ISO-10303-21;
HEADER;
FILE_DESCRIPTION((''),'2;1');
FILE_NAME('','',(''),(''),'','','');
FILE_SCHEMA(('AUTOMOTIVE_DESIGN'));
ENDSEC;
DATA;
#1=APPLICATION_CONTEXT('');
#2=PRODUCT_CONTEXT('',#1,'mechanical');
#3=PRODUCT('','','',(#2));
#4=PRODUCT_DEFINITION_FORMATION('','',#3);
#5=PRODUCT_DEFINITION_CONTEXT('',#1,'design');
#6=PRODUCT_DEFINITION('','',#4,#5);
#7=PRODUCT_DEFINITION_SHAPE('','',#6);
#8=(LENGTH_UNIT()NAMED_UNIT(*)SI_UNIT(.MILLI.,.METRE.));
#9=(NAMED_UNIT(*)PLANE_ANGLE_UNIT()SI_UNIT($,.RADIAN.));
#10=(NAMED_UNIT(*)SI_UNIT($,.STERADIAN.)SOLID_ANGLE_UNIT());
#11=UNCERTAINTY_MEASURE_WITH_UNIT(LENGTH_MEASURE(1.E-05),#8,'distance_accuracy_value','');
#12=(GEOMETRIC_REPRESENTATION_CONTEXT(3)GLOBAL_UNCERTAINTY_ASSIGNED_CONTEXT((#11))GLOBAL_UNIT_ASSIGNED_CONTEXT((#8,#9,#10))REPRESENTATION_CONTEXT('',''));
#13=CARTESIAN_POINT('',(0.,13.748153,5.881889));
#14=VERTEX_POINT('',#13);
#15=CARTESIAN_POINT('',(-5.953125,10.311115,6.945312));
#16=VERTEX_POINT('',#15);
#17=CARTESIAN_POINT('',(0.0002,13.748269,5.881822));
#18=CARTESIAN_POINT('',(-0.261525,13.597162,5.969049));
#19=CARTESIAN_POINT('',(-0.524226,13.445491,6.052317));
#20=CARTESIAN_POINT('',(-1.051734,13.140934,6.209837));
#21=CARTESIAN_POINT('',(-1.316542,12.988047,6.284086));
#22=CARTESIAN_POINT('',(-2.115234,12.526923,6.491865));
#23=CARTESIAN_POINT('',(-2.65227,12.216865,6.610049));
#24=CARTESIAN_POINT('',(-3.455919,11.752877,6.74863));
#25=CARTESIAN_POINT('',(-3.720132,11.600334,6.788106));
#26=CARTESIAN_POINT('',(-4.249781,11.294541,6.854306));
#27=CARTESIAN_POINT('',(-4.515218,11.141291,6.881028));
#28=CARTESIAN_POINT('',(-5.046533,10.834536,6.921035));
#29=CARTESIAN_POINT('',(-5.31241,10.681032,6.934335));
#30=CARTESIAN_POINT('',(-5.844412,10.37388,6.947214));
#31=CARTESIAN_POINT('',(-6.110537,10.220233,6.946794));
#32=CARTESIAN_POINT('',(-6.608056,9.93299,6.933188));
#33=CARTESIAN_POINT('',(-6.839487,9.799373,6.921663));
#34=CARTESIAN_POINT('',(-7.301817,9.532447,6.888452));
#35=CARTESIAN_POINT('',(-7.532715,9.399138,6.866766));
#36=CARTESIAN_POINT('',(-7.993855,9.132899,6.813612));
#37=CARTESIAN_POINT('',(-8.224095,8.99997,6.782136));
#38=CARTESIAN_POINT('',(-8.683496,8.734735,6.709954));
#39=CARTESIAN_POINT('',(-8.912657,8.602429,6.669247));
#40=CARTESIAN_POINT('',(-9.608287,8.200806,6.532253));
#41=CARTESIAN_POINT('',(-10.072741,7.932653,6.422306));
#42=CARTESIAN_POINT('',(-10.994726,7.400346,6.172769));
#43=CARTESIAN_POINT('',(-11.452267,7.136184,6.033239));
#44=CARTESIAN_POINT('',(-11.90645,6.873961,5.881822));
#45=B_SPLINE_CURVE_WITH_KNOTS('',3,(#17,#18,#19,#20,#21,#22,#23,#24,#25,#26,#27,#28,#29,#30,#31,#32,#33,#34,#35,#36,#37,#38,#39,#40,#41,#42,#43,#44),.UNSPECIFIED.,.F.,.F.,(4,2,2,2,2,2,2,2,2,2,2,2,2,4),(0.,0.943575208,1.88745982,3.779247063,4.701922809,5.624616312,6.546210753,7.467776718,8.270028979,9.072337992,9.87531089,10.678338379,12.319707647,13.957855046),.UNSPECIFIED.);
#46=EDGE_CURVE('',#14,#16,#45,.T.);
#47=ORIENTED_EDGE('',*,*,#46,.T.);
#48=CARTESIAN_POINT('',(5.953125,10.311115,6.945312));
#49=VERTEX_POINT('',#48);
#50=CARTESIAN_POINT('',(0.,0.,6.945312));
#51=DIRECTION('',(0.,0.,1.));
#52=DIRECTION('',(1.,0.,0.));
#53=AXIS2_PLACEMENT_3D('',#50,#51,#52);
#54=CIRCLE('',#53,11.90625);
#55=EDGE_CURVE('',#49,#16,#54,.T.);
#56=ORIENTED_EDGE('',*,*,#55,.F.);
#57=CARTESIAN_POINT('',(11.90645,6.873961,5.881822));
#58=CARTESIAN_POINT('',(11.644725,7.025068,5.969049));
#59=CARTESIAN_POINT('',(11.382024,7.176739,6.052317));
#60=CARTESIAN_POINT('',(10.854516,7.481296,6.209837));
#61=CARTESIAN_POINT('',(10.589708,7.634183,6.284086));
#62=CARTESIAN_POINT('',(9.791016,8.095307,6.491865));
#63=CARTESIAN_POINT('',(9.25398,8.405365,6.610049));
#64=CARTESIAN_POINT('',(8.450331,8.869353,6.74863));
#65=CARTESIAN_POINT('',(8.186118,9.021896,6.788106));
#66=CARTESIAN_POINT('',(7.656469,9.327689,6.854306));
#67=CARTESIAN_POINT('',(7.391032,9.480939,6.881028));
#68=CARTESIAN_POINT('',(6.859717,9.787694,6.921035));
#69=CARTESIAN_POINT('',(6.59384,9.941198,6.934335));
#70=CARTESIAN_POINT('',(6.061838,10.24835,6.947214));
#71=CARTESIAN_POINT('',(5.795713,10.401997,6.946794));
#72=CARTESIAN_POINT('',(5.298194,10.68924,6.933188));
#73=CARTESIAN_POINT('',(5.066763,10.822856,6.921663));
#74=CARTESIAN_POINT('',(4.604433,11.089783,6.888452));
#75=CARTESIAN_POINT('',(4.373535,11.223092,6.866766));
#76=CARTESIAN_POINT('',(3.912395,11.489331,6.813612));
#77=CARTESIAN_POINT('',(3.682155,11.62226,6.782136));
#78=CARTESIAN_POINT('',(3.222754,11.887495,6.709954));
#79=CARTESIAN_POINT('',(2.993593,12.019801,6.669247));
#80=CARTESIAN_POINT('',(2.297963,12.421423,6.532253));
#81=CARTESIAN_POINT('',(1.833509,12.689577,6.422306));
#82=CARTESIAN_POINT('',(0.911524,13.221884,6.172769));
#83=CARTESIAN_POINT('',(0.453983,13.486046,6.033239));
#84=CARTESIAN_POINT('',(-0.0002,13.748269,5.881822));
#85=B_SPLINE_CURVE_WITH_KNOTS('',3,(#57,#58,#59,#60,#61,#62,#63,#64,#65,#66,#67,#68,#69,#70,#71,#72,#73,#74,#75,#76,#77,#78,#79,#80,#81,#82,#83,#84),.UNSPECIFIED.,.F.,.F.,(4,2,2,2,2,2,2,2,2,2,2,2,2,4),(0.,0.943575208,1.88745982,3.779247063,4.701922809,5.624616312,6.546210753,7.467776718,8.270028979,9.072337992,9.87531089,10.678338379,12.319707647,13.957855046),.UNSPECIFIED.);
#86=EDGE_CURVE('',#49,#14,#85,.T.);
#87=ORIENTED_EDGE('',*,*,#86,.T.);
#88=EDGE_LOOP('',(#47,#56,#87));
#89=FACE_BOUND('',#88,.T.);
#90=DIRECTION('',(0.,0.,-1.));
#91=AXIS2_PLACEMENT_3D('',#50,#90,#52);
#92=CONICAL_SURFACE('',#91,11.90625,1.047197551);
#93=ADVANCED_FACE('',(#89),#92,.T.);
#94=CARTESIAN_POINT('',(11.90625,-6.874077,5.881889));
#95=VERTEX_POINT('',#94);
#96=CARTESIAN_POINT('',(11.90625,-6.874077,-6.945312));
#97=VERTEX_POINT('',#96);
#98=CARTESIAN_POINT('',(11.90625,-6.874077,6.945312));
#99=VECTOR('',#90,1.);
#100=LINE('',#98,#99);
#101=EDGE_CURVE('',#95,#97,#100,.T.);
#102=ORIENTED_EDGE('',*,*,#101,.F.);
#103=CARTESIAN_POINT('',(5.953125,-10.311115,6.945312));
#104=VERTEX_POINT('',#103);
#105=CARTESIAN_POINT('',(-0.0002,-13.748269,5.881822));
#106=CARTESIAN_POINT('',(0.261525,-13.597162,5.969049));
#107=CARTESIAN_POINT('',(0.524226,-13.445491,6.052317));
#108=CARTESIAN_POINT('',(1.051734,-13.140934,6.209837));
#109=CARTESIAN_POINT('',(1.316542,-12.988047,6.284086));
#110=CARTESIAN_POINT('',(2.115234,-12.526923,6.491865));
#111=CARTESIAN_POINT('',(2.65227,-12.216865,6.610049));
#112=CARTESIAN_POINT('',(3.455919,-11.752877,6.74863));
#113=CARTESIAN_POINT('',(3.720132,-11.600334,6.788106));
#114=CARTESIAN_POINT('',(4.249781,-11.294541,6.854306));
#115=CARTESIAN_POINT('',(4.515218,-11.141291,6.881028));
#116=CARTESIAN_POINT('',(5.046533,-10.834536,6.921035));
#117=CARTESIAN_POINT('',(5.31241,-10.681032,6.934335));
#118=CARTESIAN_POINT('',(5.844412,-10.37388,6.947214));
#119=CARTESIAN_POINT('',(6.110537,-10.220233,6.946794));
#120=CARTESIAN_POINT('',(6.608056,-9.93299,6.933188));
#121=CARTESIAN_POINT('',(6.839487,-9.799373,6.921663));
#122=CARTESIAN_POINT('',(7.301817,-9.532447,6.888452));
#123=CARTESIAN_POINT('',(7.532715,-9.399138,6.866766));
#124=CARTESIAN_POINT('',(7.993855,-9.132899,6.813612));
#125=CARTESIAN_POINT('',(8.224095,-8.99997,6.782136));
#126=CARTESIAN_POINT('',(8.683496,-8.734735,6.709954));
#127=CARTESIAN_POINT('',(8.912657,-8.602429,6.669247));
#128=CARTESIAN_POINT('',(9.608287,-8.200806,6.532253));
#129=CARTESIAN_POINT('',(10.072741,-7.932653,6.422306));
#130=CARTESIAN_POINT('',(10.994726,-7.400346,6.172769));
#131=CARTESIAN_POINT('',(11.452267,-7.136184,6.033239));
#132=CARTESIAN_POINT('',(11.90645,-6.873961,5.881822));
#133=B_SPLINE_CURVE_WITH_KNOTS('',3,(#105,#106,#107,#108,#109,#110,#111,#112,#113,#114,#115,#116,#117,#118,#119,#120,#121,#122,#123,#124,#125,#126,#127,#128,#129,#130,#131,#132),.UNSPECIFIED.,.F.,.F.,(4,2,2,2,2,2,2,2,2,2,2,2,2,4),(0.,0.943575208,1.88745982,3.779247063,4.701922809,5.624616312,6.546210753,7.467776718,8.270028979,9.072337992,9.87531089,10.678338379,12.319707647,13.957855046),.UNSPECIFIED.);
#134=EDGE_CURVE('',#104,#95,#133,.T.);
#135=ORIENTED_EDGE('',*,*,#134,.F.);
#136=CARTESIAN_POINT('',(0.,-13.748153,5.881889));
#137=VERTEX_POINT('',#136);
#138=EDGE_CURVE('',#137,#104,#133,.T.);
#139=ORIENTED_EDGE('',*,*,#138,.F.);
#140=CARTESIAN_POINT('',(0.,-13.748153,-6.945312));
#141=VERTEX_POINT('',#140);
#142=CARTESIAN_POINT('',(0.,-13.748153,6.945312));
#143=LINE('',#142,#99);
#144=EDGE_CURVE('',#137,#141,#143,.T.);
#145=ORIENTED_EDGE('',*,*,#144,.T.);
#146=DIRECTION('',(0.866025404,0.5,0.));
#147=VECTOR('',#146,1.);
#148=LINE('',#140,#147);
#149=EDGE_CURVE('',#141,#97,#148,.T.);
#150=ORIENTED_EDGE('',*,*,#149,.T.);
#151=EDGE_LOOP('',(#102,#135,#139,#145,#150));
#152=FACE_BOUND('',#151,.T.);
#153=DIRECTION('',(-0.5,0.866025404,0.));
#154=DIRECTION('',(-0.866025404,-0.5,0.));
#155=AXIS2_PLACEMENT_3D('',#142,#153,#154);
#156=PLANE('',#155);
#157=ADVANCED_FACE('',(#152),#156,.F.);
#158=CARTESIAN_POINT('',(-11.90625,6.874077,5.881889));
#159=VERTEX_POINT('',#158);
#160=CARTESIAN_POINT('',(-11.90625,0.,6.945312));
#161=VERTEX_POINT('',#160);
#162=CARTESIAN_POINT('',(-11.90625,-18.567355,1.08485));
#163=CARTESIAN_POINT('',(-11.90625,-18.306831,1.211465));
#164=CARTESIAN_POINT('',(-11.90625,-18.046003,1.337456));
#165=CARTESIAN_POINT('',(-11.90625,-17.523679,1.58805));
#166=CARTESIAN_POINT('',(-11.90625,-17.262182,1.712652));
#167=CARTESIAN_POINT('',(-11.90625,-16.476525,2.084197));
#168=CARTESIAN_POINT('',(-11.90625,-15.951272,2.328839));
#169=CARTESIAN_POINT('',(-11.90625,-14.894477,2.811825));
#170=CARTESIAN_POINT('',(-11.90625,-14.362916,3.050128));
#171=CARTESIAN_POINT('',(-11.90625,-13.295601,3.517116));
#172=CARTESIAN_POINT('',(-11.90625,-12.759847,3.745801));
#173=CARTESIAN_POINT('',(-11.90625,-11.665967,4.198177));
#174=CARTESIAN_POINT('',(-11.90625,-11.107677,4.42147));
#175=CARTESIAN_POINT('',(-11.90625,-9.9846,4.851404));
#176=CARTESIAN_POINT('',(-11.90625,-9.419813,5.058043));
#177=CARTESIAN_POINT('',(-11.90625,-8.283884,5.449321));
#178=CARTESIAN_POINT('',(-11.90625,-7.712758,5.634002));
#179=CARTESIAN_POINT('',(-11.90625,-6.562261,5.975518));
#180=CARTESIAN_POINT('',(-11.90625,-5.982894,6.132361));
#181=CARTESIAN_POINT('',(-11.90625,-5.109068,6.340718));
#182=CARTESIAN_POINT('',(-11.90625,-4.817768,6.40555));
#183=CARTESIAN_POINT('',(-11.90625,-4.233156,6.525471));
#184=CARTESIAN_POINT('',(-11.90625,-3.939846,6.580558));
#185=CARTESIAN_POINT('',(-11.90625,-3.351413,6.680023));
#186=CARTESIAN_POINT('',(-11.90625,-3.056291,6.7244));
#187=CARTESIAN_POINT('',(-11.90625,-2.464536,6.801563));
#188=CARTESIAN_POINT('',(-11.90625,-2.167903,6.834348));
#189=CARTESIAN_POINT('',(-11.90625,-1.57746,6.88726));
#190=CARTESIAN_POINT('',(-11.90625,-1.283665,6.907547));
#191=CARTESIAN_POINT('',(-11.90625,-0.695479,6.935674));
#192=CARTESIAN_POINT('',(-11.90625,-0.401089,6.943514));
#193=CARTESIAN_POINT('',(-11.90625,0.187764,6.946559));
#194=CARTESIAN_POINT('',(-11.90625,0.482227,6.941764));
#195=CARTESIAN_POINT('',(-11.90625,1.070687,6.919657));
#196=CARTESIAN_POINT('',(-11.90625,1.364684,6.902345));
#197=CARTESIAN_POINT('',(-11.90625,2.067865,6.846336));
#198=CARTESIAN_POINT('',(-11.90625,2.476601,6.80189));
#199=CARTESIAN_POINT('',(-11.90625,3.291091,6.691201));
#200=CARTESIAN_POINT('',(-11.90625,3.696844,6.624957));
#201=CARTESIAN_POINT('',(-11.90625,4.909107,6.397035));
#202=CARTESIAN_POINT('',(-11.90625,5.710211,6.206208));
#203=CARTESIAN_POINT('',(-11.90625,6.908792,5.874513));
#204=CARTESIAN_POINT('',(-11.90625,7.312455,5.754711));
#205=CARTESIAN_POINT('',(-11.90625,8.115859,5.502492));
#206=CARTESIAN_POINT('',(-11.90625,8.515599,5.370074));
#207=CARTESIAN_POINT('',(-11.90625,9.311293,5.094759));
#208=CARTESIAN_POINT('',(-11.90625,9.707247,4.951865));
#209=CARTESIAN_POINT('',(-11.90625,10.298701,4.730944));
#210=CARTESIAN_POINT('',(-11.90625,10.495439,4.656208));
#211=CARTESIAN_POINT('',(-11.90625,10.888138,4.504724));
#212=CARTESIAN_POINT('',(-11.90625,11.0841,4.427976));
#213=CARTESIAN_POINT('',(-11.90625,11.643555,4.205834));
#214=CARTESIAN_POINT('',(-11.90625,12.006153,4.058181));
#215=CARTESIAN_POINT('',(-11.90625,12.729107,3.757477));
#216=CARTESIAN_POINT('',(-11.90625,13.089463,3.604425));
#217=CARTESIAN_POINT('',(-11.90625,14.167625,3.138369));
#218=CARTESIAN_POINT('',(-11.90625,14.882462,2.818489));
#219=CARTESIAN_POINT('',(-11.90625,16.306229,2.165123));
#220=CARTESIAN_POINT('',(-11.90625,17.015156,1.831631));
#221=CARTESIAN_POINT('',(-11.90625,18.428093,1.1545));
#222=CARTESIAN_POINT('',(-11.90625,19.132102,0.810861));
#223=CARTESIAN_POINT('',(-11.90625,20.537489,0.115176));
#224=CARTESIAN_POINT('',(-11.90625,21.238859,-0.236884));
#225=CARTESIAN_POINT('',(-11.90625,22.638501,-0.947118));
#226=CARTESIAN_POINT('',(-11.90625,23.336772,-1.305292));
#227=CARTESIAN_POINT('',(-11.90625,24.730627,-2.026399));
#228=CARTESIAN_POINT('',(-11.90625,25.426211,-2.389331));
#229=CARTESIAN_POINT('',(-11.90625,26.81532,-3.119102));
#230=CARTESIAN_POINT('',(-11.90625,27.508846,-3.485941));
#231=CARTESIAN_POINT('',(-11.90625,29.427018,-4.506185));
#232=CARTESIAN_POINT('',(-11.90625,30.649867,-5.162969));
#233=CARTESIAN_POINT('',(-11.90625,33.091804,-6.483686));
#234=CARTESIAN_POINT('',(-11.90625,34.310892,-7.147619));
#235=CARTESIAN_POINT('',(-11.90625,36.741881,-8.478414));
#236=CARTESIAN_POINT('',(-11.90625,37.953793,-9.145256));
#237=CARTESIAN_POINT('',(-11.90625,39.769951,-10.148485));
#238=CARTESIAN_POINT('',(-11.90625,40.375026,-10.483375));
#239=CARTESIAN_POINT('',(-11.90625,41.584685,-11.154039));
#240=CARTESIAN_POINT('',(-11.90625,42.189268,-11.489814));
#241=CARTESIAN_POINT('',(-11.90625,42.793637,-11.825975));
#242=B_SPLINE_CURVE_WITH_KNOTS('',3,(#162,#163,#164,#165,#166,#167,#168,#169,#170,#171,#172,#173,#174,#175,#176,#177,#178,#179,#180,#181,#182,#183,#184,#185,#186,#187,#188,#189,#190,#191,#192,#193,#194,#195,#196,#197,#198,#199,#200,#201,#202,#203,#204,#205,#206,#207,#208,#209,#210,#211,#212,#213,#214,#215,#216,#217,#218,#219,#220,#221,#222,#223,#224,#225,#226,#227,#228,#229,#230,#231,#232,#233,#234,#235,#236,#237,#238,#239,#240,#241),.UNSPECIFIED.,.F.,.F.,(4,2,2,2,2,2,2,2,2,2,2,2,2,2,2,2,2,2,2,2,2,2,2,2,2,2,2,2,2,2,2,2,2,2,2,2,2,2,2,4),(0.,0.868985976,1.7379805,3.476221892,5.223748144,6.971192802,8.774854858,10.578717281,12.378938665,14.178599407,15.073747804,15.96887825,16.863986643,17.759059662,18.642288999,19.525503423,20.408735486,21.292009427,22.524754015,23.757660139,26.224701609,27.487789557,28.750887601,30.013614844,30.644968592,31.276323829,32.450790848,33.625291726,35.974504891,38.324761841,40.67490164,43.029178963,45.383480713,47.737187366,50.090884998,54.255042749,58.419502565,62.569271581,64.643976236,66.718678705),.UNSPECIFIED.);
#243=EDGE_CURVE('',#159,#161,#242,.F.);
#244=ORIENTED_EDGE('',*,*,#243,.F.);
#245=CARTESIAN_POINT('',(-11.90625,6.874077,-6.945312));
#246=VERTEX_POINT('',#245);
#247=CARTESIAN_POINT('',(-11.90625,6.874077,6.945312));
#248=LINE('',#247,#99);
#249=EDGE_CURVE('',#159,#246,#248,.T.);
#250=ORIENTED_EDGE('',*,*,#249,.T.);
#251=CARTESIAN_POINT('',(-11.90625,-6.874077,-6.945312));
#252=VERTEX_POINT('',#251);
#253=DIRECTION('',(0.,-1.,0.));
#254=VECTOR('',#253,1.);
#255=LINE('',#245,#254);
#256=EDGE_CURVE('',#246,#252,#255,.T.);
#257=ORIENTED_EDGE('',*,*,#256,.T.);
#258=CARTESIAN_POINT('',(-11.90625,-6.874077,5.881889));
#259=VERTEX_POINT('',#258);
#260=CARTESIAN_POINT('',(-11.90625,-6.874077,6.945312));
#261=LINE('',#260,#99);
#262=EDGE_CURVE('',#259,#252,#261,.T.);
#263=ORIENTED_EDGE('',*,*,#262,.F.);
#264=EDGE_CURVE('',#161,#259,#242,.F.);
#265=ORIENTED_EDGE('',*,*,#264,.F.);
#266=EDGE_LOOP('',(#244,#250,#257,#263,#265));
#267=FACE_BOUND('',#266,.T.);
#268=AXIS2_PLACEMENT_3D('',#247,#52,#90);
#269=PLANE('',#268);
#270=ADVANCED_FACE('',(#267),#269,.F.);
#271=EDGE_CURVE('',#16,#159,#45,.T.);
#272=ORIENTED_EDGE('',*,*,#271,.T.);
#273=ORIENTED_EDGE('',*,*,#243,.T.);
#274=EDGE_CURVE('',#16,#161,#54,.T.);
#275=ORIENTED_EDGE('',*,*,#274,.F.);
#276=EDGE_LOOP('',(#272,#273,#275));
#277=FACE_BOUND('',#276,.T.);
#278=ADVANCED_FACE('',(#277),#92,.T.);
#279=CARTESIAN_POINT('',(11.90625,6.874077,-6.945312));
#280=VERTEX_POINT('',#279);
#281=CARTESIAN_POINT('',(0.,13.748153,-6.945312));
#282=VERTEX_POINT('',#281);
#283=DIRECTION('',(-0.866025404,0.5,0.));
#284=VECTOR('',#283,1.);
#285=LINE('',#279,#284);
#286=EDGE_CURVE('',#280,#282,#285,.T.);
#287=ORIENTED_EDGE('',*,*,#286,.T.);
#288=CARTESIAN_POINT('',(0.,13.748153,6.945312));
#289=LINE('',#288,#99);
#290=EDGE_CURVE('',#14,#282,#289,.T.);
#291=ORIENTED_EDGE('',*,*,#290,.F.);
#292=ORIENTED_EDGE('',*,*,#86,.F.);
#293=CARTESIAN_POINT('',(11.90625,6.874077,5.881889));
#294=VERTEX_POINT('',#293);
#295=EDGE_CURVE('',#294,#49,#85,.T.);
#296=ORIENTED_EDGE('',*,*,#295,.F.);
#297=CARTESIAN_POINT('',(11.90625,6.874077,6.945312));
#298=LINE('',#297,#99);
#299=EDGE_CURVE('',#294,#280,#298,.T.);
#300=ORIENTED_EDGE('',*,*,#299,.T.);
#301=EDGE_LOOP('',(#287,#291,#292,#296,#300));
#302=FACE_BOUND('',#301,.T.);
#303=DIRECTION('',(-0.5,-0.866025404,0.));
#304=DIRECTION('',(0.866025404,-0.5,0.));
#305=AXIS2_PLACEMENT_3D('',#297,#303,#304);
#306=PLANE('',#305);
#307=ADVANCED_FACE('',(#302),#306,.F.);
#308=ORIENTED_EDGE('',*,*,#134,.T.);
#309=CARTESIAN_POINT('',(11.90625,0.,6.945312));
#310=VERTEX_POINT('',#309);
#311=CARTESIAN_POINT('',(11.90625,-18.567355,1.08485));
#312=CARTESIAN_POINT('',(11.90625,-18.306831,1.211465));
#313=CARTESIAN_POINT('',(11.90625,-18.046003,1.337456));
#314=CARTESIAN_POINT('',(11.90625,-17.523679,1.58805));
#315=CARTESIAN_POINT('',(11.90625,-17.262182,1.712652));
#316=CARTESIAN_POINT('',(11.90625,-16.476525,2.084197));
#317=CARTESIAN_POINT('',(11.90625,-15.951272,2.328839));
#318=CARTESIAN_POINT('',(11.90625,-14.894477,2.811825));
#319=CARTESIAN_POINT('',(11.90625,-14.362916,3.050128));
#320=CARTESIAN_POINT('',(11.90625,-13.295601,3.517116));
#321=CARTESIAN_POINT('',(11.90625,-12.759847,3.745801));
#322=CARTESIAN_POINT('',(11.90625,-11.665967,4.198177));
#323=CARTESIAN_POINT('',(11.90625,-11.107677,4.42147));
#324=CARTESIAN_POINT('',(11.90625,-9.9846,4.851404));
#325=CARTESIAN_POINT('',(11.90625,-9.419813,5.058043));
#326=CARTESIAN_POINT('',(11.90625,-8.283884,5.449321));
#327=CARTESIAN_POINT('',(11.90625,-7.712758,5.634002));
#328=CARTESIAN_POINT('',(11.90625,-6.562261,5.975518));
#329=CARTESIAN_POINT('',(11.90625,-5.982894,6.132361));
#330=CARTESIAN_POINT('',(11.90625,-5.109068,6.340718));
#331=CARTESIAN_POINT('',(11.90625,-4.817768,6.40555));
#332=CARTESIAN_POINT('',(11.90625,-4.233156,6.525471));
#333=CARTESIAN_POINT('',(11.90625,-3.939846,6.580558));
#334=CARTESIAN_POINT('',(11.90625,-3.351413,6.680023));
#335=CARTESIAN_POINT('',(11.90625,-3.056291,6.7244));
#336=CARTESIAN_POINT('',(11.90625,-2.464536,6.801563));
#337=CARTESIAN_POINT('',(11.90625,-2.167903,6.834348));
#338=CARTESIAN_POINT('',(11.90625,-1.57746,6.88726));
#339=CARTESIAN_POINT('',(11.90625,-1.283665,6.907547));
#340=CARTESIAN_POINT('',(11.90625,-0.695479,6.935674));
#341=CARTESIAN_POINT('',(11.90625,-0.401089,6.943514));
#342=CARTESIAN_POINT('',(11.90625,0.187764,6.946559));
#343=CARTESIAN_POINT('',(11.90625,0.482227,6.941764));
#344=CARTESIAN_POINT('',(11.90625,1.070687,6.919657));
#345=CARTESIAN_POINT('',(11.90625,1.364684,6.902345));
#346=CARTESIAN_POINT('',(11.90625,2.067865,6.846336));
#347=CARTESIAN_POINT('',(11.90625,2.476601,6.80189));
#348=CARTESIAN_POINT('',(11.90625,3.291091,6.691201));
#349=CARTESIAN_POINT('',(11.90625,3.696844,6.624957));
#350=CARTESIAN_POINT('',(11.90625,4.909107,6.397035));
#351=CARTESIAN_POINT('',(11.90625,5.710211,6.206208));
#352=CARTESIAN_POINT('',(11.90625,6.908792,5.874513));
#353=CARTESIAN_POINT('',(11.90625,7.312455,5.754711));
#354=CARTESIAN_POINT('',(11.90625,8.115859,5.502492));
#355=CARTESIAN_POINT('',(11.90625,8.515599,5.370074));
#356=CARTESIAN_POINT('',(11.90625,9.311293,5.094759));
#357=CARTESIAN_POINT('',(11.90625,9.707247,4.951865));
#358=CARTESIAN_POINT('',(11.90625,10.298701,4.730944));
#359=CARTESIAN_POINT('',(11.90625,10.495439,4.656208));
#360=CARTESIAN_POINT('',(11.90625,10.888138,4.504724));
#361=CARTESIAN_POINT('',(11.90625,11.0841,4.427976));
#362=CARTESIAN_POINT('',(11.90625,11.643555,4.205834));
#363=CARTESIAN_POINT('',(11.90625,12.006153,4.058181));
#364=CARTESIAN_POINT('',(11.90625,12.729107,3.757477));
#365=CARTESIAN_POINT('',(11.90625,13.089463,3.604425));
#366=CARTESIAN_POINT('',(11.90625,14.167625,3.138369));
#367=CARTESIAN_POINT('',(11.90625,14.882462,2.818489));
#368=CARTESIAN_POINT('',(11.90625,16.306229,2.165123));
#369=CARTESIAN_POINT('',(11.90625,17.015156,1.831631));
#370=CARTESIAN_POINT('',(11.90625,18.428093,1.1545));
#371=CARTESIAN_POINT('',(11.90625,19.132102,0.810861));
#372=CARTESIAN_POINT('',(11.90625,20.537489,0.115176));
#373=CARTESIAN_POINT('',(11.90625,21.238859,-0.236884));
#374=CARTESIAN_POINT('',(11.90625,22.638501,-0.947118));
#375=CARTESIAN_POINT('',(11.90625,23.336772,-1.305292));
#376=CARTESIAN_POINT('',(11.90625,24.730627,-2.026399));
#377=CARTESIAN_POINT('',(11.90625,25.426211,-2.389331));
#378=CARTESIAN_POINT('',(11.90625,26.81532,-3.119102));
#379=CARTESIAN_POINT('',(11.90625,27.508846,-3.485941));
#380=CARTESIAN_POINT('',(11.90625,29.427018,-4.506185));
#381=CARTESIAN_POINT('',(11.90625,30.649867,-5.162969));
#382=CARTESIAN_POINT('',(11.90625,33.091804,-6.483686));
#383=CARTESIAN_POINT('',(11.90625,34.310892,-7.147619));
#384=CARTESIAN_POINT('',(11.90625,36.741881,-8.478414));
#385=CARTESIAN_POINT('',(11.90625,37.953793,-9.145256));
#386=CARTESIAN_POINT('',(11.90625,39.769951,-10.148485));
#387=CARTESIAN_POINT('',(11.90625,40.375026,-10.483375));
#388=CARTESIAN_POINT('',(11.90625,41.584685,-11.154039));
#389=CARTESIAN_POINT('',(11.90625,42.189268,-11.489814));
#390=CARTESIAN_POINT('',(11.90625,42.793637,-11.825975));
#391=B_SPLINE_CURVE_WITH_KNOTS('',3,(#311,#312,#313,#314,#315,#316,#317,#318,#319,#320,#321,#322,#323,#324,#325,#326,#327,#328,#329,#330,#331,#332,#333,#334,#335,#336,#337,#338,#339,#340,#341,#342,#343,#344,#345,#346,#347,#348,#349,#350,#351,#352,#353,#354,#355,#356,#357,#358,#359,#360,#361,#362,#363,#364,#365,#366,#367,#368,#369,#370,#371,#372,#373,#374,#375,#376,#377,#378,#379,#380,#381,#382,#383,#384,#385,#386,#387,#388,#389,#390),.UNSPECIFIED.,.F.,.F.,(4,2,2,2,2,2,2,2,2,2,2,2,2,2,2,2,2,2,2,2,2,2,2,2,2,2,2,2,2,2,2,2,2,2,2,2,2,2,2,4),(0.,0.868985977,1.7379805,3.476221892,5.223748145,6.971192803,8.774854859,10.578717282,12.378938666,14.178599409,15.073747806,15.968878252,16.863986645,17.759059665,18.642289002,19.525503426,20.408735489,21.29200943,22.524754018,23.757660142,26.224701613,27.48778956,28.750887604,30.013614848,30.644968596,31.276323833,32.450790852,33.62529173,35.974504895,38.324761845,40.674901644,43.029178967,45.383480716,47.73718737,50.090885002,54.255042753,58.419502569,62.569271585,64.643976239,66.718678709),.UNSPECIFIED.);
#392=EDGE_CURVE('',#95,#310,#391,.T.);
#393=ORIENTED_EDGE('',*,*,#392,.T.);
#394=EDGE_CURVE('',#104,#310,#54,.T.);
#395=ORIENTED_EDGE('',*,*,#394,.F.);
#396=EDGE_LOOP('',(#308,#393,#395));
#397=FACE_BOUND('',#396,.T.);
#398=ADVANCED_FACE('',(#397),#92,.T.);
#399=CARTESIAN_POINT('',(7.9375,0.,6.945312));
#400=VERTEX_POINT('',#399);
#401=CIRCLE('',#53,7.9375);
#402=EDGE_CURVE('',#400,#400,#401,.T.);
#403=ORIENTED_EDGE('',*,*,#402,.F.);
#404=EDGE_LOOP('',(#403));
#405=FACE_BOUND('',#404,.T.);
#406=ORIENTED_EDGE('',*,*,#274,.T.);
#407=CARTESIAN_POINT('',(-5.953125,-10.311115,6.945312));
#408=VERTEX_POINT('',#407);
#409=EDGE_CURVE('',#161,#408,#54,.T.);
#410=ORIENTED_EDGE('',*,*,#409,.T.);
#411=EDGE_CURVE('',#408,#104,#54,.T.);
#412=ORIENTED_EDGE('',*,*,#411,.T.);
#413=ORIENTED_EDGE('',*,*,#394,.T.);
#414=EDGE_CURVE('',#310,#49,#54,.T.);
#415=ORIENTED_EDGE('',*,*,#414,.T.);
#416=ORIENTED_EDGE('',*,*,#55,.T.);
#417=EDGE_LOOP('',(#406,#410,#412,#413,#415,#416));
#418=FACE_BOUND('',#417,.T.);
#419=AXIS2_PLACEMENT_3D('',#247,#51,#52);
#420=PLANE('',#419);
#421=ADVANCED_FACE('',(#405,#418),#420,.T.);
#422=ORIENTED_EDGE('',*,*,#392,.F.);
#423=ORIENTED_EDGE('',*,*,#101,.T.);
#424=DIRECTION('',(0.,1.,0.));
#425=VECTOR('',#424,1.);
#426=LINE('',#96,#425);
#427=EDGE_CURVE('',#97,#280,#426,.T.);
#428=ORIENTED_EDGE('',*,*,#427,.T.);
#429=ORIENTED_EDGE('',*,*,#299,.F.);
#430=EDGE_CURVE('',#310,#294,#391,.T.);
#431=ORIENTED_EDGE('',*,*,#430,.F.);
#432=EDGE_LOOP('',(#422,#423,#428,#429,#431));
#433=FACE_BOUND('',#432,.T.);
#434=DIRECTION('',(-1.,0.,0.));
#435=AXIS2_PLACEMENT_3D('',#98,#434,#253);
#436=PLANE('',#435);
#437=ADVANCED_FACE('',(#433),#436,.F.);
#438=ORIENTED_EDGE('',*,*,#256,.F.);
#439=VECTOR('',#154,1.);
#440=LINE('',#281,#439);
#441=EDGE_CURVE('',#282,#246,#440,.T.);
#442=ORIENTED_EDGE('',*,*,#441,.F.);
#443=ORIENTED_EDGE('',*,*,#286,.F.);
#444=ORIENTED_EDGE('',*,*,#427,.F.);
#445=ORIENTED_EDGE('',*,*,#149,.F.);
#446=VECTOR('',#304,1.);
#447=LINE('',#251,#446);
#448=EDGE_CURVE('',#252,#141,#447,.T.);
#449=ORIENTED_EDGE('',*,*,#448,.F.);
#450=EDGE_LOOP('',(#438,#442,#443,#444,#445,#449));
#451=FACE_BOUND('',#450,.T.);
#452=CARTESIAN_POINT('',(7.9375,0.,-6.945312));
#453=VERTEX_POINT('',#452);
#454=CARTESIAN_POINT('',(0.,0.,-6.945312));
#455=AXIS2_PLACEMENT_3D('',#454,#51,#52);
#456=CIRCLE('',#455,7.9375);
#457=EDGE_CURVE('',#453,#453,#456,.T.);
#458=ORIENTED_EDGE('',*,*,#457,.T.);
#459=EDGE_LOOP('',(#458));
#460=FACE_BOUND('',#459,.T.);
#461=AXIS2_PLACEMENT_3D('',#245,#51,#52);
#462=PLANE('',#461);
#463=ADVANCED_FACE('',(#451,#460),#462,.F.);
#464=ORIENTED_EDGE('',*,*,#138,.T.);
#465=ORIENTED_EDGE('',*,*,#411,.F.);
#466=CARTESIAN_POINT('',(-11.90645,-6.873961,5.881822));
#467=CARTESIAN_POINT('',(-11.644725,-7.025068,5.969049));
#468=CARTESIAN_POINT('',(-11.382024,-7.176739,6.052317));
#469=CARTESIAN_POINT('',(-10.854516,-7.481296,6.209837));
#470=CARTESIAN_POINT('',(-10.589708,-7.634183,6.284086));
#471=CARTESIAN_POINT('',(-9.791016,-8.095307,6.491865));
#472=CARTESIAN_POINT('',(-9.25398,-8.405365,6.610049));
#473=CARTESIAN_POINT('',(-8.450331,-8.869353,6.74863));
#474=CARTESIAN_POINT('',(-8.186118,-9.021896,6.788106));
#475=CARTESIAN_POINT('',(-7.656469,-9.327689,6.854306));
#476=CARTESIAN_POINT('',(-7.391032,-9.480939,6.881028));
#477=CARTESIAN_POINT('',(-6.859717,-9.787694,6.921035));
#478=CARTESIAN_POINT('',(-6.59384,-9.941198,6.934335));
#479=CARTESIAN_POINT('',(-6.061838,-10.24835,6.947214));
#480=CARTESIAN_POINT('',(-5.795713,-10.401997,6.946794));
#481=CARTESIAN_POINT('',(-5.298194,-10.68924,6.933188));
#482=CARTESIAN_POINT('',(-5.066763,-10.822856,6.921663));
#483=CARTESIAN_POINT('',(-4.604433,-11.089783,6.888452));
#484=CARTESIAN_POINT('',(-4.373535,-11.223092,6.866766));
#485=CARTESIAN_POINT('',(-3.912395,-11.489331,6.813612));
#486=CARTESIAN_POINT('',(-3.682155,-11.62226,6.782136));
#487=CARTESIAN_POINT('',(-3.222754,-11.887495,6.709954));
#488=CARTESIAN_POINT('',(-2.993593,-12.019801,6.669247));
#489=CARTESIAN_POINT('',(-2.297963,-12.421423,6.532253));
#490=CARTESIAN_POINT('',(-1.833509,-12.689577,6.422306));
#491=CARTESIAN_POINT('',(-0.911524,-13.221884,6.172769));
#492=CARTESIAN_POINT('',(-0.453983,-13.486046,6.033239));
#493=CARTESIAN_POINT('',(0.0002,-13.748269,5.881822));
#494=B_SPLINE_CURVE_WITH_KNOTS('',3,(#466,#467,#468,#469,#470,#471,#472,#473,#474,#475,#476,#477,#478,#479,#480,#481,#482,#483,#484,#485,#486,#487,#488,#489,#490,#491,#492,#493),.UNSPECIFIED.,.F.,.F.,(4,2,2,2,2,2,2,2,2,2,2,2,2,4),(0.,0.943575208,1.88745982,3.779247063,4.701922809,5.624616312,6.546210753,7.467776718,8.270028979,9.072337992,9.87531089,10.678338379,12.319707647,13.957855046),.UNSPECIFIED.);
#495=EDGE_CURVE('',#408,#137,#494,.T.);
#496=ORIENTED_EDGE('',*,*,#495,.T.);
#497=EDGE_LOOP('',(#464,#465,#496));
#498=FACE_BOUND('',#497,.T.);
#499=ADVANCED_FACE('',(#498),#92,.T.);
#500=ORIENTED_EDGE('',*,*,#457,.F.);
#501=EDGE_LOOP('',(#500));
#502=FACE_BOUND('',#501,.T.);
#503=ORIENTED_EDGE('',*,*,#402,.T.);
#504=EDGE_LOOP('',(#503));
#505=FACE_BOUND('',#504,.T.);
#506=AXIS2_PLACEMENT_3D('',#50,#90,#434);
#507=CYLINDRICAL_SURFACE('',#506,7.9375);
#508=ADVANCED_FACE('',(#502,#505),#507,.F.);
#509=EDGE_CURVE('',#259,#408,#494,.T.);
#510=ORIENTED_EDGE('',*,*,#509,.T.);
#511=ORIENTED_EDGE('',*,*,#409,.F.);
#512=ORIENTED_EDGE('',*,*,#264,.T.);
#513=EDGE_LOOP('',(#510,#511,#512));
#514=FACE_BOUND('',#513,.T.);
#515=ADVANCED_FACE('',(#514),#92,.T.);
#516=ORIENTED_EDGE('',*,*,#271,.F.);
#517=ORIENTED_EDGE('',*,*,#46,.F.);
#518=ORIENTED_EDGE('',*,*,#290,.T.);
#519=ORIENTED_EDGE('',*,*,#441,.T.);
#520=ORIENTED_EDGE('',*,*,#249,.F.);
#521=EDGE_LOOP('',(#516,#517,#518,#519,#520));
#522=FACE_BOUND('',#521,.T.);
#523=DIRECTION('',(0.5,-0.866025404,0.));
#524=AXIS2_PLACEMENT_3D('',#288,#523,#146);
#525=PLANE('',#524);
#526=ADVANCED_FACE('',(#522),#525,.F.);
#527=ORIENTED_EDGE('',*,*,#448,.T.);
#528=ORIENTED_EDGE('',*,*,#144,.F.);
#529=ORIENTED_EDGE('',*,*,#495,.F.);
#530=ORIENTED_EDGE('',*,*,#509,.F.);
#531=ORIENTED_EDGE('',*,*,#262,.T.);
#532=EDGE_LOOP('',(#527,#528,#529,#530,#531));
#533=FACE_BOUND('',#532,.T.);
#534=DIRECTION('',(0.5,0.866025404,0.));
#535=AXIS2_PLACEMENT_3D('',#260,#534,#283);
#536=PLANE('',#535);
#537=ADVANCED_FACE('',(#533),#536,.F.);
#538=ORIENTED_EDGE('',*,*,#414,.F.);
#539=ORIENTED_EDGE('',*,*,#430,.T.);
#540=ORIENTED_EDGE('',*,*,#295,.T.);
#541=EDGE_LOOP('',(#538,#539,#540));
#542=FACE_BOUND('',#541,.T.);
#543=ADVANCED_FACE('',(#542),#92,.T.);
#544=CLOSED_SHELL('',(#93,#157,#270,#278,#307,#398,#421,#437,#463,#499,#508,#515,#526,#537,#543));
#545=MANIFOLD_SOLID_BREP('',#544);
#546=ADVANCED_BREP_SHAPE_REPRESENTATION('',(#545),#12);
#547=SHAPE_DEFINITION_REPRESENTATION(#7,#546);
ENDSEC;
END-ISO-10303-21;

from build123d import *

# Parameters (mm, degrees)
SKETCH1_R         = 7.9375
EXTRUDE1_DEPTH    = 6.9453125
SKETCH7_OUTSIDE_W = 121.588
SKETCH7_OUTSIDE_H = 125.272
SKETCH7_OUTSIDE_R = 11.90625
EXTRUDE2_DEPTH    = 25.4
EXTRUDE2_TAPER    = 60


with BuildPart() as part:
    # Sketch1 → Extrude1 (new body, symmetric)
    with BuildSketch(Plane.XY):
        Polygon((-11.90625, 6.874076643), (-11.90625, -6.874076643), (0, -13.748153285), (11.90625, -6.874076643), (11.90625, 6.874076643), (0, 13.748153285), align=None)
        Circle(SKETCH1_R, mode=Mode.SUBTRACT)
    extrude(amount=EXTRUDE1_DEPTH, both=True)

    # Sketch7 outside → Extrude2 (cut)
    with BuildSketch(Plane.XY.offset(6.9453125)):
        Rectangle(SKETCH7_OUTSIDE_W, SKETCH7_OUTSIDE_H)
        Circle(SKETCH7_OUTSIDE_R, mode=Mode.SUBTRACT)
    extrude(amount=-EXTRUDE2_DEPTH, taper=EXTRUDE2_TAPER, mode=Mode.SUBTRACT)


solid = part.part
